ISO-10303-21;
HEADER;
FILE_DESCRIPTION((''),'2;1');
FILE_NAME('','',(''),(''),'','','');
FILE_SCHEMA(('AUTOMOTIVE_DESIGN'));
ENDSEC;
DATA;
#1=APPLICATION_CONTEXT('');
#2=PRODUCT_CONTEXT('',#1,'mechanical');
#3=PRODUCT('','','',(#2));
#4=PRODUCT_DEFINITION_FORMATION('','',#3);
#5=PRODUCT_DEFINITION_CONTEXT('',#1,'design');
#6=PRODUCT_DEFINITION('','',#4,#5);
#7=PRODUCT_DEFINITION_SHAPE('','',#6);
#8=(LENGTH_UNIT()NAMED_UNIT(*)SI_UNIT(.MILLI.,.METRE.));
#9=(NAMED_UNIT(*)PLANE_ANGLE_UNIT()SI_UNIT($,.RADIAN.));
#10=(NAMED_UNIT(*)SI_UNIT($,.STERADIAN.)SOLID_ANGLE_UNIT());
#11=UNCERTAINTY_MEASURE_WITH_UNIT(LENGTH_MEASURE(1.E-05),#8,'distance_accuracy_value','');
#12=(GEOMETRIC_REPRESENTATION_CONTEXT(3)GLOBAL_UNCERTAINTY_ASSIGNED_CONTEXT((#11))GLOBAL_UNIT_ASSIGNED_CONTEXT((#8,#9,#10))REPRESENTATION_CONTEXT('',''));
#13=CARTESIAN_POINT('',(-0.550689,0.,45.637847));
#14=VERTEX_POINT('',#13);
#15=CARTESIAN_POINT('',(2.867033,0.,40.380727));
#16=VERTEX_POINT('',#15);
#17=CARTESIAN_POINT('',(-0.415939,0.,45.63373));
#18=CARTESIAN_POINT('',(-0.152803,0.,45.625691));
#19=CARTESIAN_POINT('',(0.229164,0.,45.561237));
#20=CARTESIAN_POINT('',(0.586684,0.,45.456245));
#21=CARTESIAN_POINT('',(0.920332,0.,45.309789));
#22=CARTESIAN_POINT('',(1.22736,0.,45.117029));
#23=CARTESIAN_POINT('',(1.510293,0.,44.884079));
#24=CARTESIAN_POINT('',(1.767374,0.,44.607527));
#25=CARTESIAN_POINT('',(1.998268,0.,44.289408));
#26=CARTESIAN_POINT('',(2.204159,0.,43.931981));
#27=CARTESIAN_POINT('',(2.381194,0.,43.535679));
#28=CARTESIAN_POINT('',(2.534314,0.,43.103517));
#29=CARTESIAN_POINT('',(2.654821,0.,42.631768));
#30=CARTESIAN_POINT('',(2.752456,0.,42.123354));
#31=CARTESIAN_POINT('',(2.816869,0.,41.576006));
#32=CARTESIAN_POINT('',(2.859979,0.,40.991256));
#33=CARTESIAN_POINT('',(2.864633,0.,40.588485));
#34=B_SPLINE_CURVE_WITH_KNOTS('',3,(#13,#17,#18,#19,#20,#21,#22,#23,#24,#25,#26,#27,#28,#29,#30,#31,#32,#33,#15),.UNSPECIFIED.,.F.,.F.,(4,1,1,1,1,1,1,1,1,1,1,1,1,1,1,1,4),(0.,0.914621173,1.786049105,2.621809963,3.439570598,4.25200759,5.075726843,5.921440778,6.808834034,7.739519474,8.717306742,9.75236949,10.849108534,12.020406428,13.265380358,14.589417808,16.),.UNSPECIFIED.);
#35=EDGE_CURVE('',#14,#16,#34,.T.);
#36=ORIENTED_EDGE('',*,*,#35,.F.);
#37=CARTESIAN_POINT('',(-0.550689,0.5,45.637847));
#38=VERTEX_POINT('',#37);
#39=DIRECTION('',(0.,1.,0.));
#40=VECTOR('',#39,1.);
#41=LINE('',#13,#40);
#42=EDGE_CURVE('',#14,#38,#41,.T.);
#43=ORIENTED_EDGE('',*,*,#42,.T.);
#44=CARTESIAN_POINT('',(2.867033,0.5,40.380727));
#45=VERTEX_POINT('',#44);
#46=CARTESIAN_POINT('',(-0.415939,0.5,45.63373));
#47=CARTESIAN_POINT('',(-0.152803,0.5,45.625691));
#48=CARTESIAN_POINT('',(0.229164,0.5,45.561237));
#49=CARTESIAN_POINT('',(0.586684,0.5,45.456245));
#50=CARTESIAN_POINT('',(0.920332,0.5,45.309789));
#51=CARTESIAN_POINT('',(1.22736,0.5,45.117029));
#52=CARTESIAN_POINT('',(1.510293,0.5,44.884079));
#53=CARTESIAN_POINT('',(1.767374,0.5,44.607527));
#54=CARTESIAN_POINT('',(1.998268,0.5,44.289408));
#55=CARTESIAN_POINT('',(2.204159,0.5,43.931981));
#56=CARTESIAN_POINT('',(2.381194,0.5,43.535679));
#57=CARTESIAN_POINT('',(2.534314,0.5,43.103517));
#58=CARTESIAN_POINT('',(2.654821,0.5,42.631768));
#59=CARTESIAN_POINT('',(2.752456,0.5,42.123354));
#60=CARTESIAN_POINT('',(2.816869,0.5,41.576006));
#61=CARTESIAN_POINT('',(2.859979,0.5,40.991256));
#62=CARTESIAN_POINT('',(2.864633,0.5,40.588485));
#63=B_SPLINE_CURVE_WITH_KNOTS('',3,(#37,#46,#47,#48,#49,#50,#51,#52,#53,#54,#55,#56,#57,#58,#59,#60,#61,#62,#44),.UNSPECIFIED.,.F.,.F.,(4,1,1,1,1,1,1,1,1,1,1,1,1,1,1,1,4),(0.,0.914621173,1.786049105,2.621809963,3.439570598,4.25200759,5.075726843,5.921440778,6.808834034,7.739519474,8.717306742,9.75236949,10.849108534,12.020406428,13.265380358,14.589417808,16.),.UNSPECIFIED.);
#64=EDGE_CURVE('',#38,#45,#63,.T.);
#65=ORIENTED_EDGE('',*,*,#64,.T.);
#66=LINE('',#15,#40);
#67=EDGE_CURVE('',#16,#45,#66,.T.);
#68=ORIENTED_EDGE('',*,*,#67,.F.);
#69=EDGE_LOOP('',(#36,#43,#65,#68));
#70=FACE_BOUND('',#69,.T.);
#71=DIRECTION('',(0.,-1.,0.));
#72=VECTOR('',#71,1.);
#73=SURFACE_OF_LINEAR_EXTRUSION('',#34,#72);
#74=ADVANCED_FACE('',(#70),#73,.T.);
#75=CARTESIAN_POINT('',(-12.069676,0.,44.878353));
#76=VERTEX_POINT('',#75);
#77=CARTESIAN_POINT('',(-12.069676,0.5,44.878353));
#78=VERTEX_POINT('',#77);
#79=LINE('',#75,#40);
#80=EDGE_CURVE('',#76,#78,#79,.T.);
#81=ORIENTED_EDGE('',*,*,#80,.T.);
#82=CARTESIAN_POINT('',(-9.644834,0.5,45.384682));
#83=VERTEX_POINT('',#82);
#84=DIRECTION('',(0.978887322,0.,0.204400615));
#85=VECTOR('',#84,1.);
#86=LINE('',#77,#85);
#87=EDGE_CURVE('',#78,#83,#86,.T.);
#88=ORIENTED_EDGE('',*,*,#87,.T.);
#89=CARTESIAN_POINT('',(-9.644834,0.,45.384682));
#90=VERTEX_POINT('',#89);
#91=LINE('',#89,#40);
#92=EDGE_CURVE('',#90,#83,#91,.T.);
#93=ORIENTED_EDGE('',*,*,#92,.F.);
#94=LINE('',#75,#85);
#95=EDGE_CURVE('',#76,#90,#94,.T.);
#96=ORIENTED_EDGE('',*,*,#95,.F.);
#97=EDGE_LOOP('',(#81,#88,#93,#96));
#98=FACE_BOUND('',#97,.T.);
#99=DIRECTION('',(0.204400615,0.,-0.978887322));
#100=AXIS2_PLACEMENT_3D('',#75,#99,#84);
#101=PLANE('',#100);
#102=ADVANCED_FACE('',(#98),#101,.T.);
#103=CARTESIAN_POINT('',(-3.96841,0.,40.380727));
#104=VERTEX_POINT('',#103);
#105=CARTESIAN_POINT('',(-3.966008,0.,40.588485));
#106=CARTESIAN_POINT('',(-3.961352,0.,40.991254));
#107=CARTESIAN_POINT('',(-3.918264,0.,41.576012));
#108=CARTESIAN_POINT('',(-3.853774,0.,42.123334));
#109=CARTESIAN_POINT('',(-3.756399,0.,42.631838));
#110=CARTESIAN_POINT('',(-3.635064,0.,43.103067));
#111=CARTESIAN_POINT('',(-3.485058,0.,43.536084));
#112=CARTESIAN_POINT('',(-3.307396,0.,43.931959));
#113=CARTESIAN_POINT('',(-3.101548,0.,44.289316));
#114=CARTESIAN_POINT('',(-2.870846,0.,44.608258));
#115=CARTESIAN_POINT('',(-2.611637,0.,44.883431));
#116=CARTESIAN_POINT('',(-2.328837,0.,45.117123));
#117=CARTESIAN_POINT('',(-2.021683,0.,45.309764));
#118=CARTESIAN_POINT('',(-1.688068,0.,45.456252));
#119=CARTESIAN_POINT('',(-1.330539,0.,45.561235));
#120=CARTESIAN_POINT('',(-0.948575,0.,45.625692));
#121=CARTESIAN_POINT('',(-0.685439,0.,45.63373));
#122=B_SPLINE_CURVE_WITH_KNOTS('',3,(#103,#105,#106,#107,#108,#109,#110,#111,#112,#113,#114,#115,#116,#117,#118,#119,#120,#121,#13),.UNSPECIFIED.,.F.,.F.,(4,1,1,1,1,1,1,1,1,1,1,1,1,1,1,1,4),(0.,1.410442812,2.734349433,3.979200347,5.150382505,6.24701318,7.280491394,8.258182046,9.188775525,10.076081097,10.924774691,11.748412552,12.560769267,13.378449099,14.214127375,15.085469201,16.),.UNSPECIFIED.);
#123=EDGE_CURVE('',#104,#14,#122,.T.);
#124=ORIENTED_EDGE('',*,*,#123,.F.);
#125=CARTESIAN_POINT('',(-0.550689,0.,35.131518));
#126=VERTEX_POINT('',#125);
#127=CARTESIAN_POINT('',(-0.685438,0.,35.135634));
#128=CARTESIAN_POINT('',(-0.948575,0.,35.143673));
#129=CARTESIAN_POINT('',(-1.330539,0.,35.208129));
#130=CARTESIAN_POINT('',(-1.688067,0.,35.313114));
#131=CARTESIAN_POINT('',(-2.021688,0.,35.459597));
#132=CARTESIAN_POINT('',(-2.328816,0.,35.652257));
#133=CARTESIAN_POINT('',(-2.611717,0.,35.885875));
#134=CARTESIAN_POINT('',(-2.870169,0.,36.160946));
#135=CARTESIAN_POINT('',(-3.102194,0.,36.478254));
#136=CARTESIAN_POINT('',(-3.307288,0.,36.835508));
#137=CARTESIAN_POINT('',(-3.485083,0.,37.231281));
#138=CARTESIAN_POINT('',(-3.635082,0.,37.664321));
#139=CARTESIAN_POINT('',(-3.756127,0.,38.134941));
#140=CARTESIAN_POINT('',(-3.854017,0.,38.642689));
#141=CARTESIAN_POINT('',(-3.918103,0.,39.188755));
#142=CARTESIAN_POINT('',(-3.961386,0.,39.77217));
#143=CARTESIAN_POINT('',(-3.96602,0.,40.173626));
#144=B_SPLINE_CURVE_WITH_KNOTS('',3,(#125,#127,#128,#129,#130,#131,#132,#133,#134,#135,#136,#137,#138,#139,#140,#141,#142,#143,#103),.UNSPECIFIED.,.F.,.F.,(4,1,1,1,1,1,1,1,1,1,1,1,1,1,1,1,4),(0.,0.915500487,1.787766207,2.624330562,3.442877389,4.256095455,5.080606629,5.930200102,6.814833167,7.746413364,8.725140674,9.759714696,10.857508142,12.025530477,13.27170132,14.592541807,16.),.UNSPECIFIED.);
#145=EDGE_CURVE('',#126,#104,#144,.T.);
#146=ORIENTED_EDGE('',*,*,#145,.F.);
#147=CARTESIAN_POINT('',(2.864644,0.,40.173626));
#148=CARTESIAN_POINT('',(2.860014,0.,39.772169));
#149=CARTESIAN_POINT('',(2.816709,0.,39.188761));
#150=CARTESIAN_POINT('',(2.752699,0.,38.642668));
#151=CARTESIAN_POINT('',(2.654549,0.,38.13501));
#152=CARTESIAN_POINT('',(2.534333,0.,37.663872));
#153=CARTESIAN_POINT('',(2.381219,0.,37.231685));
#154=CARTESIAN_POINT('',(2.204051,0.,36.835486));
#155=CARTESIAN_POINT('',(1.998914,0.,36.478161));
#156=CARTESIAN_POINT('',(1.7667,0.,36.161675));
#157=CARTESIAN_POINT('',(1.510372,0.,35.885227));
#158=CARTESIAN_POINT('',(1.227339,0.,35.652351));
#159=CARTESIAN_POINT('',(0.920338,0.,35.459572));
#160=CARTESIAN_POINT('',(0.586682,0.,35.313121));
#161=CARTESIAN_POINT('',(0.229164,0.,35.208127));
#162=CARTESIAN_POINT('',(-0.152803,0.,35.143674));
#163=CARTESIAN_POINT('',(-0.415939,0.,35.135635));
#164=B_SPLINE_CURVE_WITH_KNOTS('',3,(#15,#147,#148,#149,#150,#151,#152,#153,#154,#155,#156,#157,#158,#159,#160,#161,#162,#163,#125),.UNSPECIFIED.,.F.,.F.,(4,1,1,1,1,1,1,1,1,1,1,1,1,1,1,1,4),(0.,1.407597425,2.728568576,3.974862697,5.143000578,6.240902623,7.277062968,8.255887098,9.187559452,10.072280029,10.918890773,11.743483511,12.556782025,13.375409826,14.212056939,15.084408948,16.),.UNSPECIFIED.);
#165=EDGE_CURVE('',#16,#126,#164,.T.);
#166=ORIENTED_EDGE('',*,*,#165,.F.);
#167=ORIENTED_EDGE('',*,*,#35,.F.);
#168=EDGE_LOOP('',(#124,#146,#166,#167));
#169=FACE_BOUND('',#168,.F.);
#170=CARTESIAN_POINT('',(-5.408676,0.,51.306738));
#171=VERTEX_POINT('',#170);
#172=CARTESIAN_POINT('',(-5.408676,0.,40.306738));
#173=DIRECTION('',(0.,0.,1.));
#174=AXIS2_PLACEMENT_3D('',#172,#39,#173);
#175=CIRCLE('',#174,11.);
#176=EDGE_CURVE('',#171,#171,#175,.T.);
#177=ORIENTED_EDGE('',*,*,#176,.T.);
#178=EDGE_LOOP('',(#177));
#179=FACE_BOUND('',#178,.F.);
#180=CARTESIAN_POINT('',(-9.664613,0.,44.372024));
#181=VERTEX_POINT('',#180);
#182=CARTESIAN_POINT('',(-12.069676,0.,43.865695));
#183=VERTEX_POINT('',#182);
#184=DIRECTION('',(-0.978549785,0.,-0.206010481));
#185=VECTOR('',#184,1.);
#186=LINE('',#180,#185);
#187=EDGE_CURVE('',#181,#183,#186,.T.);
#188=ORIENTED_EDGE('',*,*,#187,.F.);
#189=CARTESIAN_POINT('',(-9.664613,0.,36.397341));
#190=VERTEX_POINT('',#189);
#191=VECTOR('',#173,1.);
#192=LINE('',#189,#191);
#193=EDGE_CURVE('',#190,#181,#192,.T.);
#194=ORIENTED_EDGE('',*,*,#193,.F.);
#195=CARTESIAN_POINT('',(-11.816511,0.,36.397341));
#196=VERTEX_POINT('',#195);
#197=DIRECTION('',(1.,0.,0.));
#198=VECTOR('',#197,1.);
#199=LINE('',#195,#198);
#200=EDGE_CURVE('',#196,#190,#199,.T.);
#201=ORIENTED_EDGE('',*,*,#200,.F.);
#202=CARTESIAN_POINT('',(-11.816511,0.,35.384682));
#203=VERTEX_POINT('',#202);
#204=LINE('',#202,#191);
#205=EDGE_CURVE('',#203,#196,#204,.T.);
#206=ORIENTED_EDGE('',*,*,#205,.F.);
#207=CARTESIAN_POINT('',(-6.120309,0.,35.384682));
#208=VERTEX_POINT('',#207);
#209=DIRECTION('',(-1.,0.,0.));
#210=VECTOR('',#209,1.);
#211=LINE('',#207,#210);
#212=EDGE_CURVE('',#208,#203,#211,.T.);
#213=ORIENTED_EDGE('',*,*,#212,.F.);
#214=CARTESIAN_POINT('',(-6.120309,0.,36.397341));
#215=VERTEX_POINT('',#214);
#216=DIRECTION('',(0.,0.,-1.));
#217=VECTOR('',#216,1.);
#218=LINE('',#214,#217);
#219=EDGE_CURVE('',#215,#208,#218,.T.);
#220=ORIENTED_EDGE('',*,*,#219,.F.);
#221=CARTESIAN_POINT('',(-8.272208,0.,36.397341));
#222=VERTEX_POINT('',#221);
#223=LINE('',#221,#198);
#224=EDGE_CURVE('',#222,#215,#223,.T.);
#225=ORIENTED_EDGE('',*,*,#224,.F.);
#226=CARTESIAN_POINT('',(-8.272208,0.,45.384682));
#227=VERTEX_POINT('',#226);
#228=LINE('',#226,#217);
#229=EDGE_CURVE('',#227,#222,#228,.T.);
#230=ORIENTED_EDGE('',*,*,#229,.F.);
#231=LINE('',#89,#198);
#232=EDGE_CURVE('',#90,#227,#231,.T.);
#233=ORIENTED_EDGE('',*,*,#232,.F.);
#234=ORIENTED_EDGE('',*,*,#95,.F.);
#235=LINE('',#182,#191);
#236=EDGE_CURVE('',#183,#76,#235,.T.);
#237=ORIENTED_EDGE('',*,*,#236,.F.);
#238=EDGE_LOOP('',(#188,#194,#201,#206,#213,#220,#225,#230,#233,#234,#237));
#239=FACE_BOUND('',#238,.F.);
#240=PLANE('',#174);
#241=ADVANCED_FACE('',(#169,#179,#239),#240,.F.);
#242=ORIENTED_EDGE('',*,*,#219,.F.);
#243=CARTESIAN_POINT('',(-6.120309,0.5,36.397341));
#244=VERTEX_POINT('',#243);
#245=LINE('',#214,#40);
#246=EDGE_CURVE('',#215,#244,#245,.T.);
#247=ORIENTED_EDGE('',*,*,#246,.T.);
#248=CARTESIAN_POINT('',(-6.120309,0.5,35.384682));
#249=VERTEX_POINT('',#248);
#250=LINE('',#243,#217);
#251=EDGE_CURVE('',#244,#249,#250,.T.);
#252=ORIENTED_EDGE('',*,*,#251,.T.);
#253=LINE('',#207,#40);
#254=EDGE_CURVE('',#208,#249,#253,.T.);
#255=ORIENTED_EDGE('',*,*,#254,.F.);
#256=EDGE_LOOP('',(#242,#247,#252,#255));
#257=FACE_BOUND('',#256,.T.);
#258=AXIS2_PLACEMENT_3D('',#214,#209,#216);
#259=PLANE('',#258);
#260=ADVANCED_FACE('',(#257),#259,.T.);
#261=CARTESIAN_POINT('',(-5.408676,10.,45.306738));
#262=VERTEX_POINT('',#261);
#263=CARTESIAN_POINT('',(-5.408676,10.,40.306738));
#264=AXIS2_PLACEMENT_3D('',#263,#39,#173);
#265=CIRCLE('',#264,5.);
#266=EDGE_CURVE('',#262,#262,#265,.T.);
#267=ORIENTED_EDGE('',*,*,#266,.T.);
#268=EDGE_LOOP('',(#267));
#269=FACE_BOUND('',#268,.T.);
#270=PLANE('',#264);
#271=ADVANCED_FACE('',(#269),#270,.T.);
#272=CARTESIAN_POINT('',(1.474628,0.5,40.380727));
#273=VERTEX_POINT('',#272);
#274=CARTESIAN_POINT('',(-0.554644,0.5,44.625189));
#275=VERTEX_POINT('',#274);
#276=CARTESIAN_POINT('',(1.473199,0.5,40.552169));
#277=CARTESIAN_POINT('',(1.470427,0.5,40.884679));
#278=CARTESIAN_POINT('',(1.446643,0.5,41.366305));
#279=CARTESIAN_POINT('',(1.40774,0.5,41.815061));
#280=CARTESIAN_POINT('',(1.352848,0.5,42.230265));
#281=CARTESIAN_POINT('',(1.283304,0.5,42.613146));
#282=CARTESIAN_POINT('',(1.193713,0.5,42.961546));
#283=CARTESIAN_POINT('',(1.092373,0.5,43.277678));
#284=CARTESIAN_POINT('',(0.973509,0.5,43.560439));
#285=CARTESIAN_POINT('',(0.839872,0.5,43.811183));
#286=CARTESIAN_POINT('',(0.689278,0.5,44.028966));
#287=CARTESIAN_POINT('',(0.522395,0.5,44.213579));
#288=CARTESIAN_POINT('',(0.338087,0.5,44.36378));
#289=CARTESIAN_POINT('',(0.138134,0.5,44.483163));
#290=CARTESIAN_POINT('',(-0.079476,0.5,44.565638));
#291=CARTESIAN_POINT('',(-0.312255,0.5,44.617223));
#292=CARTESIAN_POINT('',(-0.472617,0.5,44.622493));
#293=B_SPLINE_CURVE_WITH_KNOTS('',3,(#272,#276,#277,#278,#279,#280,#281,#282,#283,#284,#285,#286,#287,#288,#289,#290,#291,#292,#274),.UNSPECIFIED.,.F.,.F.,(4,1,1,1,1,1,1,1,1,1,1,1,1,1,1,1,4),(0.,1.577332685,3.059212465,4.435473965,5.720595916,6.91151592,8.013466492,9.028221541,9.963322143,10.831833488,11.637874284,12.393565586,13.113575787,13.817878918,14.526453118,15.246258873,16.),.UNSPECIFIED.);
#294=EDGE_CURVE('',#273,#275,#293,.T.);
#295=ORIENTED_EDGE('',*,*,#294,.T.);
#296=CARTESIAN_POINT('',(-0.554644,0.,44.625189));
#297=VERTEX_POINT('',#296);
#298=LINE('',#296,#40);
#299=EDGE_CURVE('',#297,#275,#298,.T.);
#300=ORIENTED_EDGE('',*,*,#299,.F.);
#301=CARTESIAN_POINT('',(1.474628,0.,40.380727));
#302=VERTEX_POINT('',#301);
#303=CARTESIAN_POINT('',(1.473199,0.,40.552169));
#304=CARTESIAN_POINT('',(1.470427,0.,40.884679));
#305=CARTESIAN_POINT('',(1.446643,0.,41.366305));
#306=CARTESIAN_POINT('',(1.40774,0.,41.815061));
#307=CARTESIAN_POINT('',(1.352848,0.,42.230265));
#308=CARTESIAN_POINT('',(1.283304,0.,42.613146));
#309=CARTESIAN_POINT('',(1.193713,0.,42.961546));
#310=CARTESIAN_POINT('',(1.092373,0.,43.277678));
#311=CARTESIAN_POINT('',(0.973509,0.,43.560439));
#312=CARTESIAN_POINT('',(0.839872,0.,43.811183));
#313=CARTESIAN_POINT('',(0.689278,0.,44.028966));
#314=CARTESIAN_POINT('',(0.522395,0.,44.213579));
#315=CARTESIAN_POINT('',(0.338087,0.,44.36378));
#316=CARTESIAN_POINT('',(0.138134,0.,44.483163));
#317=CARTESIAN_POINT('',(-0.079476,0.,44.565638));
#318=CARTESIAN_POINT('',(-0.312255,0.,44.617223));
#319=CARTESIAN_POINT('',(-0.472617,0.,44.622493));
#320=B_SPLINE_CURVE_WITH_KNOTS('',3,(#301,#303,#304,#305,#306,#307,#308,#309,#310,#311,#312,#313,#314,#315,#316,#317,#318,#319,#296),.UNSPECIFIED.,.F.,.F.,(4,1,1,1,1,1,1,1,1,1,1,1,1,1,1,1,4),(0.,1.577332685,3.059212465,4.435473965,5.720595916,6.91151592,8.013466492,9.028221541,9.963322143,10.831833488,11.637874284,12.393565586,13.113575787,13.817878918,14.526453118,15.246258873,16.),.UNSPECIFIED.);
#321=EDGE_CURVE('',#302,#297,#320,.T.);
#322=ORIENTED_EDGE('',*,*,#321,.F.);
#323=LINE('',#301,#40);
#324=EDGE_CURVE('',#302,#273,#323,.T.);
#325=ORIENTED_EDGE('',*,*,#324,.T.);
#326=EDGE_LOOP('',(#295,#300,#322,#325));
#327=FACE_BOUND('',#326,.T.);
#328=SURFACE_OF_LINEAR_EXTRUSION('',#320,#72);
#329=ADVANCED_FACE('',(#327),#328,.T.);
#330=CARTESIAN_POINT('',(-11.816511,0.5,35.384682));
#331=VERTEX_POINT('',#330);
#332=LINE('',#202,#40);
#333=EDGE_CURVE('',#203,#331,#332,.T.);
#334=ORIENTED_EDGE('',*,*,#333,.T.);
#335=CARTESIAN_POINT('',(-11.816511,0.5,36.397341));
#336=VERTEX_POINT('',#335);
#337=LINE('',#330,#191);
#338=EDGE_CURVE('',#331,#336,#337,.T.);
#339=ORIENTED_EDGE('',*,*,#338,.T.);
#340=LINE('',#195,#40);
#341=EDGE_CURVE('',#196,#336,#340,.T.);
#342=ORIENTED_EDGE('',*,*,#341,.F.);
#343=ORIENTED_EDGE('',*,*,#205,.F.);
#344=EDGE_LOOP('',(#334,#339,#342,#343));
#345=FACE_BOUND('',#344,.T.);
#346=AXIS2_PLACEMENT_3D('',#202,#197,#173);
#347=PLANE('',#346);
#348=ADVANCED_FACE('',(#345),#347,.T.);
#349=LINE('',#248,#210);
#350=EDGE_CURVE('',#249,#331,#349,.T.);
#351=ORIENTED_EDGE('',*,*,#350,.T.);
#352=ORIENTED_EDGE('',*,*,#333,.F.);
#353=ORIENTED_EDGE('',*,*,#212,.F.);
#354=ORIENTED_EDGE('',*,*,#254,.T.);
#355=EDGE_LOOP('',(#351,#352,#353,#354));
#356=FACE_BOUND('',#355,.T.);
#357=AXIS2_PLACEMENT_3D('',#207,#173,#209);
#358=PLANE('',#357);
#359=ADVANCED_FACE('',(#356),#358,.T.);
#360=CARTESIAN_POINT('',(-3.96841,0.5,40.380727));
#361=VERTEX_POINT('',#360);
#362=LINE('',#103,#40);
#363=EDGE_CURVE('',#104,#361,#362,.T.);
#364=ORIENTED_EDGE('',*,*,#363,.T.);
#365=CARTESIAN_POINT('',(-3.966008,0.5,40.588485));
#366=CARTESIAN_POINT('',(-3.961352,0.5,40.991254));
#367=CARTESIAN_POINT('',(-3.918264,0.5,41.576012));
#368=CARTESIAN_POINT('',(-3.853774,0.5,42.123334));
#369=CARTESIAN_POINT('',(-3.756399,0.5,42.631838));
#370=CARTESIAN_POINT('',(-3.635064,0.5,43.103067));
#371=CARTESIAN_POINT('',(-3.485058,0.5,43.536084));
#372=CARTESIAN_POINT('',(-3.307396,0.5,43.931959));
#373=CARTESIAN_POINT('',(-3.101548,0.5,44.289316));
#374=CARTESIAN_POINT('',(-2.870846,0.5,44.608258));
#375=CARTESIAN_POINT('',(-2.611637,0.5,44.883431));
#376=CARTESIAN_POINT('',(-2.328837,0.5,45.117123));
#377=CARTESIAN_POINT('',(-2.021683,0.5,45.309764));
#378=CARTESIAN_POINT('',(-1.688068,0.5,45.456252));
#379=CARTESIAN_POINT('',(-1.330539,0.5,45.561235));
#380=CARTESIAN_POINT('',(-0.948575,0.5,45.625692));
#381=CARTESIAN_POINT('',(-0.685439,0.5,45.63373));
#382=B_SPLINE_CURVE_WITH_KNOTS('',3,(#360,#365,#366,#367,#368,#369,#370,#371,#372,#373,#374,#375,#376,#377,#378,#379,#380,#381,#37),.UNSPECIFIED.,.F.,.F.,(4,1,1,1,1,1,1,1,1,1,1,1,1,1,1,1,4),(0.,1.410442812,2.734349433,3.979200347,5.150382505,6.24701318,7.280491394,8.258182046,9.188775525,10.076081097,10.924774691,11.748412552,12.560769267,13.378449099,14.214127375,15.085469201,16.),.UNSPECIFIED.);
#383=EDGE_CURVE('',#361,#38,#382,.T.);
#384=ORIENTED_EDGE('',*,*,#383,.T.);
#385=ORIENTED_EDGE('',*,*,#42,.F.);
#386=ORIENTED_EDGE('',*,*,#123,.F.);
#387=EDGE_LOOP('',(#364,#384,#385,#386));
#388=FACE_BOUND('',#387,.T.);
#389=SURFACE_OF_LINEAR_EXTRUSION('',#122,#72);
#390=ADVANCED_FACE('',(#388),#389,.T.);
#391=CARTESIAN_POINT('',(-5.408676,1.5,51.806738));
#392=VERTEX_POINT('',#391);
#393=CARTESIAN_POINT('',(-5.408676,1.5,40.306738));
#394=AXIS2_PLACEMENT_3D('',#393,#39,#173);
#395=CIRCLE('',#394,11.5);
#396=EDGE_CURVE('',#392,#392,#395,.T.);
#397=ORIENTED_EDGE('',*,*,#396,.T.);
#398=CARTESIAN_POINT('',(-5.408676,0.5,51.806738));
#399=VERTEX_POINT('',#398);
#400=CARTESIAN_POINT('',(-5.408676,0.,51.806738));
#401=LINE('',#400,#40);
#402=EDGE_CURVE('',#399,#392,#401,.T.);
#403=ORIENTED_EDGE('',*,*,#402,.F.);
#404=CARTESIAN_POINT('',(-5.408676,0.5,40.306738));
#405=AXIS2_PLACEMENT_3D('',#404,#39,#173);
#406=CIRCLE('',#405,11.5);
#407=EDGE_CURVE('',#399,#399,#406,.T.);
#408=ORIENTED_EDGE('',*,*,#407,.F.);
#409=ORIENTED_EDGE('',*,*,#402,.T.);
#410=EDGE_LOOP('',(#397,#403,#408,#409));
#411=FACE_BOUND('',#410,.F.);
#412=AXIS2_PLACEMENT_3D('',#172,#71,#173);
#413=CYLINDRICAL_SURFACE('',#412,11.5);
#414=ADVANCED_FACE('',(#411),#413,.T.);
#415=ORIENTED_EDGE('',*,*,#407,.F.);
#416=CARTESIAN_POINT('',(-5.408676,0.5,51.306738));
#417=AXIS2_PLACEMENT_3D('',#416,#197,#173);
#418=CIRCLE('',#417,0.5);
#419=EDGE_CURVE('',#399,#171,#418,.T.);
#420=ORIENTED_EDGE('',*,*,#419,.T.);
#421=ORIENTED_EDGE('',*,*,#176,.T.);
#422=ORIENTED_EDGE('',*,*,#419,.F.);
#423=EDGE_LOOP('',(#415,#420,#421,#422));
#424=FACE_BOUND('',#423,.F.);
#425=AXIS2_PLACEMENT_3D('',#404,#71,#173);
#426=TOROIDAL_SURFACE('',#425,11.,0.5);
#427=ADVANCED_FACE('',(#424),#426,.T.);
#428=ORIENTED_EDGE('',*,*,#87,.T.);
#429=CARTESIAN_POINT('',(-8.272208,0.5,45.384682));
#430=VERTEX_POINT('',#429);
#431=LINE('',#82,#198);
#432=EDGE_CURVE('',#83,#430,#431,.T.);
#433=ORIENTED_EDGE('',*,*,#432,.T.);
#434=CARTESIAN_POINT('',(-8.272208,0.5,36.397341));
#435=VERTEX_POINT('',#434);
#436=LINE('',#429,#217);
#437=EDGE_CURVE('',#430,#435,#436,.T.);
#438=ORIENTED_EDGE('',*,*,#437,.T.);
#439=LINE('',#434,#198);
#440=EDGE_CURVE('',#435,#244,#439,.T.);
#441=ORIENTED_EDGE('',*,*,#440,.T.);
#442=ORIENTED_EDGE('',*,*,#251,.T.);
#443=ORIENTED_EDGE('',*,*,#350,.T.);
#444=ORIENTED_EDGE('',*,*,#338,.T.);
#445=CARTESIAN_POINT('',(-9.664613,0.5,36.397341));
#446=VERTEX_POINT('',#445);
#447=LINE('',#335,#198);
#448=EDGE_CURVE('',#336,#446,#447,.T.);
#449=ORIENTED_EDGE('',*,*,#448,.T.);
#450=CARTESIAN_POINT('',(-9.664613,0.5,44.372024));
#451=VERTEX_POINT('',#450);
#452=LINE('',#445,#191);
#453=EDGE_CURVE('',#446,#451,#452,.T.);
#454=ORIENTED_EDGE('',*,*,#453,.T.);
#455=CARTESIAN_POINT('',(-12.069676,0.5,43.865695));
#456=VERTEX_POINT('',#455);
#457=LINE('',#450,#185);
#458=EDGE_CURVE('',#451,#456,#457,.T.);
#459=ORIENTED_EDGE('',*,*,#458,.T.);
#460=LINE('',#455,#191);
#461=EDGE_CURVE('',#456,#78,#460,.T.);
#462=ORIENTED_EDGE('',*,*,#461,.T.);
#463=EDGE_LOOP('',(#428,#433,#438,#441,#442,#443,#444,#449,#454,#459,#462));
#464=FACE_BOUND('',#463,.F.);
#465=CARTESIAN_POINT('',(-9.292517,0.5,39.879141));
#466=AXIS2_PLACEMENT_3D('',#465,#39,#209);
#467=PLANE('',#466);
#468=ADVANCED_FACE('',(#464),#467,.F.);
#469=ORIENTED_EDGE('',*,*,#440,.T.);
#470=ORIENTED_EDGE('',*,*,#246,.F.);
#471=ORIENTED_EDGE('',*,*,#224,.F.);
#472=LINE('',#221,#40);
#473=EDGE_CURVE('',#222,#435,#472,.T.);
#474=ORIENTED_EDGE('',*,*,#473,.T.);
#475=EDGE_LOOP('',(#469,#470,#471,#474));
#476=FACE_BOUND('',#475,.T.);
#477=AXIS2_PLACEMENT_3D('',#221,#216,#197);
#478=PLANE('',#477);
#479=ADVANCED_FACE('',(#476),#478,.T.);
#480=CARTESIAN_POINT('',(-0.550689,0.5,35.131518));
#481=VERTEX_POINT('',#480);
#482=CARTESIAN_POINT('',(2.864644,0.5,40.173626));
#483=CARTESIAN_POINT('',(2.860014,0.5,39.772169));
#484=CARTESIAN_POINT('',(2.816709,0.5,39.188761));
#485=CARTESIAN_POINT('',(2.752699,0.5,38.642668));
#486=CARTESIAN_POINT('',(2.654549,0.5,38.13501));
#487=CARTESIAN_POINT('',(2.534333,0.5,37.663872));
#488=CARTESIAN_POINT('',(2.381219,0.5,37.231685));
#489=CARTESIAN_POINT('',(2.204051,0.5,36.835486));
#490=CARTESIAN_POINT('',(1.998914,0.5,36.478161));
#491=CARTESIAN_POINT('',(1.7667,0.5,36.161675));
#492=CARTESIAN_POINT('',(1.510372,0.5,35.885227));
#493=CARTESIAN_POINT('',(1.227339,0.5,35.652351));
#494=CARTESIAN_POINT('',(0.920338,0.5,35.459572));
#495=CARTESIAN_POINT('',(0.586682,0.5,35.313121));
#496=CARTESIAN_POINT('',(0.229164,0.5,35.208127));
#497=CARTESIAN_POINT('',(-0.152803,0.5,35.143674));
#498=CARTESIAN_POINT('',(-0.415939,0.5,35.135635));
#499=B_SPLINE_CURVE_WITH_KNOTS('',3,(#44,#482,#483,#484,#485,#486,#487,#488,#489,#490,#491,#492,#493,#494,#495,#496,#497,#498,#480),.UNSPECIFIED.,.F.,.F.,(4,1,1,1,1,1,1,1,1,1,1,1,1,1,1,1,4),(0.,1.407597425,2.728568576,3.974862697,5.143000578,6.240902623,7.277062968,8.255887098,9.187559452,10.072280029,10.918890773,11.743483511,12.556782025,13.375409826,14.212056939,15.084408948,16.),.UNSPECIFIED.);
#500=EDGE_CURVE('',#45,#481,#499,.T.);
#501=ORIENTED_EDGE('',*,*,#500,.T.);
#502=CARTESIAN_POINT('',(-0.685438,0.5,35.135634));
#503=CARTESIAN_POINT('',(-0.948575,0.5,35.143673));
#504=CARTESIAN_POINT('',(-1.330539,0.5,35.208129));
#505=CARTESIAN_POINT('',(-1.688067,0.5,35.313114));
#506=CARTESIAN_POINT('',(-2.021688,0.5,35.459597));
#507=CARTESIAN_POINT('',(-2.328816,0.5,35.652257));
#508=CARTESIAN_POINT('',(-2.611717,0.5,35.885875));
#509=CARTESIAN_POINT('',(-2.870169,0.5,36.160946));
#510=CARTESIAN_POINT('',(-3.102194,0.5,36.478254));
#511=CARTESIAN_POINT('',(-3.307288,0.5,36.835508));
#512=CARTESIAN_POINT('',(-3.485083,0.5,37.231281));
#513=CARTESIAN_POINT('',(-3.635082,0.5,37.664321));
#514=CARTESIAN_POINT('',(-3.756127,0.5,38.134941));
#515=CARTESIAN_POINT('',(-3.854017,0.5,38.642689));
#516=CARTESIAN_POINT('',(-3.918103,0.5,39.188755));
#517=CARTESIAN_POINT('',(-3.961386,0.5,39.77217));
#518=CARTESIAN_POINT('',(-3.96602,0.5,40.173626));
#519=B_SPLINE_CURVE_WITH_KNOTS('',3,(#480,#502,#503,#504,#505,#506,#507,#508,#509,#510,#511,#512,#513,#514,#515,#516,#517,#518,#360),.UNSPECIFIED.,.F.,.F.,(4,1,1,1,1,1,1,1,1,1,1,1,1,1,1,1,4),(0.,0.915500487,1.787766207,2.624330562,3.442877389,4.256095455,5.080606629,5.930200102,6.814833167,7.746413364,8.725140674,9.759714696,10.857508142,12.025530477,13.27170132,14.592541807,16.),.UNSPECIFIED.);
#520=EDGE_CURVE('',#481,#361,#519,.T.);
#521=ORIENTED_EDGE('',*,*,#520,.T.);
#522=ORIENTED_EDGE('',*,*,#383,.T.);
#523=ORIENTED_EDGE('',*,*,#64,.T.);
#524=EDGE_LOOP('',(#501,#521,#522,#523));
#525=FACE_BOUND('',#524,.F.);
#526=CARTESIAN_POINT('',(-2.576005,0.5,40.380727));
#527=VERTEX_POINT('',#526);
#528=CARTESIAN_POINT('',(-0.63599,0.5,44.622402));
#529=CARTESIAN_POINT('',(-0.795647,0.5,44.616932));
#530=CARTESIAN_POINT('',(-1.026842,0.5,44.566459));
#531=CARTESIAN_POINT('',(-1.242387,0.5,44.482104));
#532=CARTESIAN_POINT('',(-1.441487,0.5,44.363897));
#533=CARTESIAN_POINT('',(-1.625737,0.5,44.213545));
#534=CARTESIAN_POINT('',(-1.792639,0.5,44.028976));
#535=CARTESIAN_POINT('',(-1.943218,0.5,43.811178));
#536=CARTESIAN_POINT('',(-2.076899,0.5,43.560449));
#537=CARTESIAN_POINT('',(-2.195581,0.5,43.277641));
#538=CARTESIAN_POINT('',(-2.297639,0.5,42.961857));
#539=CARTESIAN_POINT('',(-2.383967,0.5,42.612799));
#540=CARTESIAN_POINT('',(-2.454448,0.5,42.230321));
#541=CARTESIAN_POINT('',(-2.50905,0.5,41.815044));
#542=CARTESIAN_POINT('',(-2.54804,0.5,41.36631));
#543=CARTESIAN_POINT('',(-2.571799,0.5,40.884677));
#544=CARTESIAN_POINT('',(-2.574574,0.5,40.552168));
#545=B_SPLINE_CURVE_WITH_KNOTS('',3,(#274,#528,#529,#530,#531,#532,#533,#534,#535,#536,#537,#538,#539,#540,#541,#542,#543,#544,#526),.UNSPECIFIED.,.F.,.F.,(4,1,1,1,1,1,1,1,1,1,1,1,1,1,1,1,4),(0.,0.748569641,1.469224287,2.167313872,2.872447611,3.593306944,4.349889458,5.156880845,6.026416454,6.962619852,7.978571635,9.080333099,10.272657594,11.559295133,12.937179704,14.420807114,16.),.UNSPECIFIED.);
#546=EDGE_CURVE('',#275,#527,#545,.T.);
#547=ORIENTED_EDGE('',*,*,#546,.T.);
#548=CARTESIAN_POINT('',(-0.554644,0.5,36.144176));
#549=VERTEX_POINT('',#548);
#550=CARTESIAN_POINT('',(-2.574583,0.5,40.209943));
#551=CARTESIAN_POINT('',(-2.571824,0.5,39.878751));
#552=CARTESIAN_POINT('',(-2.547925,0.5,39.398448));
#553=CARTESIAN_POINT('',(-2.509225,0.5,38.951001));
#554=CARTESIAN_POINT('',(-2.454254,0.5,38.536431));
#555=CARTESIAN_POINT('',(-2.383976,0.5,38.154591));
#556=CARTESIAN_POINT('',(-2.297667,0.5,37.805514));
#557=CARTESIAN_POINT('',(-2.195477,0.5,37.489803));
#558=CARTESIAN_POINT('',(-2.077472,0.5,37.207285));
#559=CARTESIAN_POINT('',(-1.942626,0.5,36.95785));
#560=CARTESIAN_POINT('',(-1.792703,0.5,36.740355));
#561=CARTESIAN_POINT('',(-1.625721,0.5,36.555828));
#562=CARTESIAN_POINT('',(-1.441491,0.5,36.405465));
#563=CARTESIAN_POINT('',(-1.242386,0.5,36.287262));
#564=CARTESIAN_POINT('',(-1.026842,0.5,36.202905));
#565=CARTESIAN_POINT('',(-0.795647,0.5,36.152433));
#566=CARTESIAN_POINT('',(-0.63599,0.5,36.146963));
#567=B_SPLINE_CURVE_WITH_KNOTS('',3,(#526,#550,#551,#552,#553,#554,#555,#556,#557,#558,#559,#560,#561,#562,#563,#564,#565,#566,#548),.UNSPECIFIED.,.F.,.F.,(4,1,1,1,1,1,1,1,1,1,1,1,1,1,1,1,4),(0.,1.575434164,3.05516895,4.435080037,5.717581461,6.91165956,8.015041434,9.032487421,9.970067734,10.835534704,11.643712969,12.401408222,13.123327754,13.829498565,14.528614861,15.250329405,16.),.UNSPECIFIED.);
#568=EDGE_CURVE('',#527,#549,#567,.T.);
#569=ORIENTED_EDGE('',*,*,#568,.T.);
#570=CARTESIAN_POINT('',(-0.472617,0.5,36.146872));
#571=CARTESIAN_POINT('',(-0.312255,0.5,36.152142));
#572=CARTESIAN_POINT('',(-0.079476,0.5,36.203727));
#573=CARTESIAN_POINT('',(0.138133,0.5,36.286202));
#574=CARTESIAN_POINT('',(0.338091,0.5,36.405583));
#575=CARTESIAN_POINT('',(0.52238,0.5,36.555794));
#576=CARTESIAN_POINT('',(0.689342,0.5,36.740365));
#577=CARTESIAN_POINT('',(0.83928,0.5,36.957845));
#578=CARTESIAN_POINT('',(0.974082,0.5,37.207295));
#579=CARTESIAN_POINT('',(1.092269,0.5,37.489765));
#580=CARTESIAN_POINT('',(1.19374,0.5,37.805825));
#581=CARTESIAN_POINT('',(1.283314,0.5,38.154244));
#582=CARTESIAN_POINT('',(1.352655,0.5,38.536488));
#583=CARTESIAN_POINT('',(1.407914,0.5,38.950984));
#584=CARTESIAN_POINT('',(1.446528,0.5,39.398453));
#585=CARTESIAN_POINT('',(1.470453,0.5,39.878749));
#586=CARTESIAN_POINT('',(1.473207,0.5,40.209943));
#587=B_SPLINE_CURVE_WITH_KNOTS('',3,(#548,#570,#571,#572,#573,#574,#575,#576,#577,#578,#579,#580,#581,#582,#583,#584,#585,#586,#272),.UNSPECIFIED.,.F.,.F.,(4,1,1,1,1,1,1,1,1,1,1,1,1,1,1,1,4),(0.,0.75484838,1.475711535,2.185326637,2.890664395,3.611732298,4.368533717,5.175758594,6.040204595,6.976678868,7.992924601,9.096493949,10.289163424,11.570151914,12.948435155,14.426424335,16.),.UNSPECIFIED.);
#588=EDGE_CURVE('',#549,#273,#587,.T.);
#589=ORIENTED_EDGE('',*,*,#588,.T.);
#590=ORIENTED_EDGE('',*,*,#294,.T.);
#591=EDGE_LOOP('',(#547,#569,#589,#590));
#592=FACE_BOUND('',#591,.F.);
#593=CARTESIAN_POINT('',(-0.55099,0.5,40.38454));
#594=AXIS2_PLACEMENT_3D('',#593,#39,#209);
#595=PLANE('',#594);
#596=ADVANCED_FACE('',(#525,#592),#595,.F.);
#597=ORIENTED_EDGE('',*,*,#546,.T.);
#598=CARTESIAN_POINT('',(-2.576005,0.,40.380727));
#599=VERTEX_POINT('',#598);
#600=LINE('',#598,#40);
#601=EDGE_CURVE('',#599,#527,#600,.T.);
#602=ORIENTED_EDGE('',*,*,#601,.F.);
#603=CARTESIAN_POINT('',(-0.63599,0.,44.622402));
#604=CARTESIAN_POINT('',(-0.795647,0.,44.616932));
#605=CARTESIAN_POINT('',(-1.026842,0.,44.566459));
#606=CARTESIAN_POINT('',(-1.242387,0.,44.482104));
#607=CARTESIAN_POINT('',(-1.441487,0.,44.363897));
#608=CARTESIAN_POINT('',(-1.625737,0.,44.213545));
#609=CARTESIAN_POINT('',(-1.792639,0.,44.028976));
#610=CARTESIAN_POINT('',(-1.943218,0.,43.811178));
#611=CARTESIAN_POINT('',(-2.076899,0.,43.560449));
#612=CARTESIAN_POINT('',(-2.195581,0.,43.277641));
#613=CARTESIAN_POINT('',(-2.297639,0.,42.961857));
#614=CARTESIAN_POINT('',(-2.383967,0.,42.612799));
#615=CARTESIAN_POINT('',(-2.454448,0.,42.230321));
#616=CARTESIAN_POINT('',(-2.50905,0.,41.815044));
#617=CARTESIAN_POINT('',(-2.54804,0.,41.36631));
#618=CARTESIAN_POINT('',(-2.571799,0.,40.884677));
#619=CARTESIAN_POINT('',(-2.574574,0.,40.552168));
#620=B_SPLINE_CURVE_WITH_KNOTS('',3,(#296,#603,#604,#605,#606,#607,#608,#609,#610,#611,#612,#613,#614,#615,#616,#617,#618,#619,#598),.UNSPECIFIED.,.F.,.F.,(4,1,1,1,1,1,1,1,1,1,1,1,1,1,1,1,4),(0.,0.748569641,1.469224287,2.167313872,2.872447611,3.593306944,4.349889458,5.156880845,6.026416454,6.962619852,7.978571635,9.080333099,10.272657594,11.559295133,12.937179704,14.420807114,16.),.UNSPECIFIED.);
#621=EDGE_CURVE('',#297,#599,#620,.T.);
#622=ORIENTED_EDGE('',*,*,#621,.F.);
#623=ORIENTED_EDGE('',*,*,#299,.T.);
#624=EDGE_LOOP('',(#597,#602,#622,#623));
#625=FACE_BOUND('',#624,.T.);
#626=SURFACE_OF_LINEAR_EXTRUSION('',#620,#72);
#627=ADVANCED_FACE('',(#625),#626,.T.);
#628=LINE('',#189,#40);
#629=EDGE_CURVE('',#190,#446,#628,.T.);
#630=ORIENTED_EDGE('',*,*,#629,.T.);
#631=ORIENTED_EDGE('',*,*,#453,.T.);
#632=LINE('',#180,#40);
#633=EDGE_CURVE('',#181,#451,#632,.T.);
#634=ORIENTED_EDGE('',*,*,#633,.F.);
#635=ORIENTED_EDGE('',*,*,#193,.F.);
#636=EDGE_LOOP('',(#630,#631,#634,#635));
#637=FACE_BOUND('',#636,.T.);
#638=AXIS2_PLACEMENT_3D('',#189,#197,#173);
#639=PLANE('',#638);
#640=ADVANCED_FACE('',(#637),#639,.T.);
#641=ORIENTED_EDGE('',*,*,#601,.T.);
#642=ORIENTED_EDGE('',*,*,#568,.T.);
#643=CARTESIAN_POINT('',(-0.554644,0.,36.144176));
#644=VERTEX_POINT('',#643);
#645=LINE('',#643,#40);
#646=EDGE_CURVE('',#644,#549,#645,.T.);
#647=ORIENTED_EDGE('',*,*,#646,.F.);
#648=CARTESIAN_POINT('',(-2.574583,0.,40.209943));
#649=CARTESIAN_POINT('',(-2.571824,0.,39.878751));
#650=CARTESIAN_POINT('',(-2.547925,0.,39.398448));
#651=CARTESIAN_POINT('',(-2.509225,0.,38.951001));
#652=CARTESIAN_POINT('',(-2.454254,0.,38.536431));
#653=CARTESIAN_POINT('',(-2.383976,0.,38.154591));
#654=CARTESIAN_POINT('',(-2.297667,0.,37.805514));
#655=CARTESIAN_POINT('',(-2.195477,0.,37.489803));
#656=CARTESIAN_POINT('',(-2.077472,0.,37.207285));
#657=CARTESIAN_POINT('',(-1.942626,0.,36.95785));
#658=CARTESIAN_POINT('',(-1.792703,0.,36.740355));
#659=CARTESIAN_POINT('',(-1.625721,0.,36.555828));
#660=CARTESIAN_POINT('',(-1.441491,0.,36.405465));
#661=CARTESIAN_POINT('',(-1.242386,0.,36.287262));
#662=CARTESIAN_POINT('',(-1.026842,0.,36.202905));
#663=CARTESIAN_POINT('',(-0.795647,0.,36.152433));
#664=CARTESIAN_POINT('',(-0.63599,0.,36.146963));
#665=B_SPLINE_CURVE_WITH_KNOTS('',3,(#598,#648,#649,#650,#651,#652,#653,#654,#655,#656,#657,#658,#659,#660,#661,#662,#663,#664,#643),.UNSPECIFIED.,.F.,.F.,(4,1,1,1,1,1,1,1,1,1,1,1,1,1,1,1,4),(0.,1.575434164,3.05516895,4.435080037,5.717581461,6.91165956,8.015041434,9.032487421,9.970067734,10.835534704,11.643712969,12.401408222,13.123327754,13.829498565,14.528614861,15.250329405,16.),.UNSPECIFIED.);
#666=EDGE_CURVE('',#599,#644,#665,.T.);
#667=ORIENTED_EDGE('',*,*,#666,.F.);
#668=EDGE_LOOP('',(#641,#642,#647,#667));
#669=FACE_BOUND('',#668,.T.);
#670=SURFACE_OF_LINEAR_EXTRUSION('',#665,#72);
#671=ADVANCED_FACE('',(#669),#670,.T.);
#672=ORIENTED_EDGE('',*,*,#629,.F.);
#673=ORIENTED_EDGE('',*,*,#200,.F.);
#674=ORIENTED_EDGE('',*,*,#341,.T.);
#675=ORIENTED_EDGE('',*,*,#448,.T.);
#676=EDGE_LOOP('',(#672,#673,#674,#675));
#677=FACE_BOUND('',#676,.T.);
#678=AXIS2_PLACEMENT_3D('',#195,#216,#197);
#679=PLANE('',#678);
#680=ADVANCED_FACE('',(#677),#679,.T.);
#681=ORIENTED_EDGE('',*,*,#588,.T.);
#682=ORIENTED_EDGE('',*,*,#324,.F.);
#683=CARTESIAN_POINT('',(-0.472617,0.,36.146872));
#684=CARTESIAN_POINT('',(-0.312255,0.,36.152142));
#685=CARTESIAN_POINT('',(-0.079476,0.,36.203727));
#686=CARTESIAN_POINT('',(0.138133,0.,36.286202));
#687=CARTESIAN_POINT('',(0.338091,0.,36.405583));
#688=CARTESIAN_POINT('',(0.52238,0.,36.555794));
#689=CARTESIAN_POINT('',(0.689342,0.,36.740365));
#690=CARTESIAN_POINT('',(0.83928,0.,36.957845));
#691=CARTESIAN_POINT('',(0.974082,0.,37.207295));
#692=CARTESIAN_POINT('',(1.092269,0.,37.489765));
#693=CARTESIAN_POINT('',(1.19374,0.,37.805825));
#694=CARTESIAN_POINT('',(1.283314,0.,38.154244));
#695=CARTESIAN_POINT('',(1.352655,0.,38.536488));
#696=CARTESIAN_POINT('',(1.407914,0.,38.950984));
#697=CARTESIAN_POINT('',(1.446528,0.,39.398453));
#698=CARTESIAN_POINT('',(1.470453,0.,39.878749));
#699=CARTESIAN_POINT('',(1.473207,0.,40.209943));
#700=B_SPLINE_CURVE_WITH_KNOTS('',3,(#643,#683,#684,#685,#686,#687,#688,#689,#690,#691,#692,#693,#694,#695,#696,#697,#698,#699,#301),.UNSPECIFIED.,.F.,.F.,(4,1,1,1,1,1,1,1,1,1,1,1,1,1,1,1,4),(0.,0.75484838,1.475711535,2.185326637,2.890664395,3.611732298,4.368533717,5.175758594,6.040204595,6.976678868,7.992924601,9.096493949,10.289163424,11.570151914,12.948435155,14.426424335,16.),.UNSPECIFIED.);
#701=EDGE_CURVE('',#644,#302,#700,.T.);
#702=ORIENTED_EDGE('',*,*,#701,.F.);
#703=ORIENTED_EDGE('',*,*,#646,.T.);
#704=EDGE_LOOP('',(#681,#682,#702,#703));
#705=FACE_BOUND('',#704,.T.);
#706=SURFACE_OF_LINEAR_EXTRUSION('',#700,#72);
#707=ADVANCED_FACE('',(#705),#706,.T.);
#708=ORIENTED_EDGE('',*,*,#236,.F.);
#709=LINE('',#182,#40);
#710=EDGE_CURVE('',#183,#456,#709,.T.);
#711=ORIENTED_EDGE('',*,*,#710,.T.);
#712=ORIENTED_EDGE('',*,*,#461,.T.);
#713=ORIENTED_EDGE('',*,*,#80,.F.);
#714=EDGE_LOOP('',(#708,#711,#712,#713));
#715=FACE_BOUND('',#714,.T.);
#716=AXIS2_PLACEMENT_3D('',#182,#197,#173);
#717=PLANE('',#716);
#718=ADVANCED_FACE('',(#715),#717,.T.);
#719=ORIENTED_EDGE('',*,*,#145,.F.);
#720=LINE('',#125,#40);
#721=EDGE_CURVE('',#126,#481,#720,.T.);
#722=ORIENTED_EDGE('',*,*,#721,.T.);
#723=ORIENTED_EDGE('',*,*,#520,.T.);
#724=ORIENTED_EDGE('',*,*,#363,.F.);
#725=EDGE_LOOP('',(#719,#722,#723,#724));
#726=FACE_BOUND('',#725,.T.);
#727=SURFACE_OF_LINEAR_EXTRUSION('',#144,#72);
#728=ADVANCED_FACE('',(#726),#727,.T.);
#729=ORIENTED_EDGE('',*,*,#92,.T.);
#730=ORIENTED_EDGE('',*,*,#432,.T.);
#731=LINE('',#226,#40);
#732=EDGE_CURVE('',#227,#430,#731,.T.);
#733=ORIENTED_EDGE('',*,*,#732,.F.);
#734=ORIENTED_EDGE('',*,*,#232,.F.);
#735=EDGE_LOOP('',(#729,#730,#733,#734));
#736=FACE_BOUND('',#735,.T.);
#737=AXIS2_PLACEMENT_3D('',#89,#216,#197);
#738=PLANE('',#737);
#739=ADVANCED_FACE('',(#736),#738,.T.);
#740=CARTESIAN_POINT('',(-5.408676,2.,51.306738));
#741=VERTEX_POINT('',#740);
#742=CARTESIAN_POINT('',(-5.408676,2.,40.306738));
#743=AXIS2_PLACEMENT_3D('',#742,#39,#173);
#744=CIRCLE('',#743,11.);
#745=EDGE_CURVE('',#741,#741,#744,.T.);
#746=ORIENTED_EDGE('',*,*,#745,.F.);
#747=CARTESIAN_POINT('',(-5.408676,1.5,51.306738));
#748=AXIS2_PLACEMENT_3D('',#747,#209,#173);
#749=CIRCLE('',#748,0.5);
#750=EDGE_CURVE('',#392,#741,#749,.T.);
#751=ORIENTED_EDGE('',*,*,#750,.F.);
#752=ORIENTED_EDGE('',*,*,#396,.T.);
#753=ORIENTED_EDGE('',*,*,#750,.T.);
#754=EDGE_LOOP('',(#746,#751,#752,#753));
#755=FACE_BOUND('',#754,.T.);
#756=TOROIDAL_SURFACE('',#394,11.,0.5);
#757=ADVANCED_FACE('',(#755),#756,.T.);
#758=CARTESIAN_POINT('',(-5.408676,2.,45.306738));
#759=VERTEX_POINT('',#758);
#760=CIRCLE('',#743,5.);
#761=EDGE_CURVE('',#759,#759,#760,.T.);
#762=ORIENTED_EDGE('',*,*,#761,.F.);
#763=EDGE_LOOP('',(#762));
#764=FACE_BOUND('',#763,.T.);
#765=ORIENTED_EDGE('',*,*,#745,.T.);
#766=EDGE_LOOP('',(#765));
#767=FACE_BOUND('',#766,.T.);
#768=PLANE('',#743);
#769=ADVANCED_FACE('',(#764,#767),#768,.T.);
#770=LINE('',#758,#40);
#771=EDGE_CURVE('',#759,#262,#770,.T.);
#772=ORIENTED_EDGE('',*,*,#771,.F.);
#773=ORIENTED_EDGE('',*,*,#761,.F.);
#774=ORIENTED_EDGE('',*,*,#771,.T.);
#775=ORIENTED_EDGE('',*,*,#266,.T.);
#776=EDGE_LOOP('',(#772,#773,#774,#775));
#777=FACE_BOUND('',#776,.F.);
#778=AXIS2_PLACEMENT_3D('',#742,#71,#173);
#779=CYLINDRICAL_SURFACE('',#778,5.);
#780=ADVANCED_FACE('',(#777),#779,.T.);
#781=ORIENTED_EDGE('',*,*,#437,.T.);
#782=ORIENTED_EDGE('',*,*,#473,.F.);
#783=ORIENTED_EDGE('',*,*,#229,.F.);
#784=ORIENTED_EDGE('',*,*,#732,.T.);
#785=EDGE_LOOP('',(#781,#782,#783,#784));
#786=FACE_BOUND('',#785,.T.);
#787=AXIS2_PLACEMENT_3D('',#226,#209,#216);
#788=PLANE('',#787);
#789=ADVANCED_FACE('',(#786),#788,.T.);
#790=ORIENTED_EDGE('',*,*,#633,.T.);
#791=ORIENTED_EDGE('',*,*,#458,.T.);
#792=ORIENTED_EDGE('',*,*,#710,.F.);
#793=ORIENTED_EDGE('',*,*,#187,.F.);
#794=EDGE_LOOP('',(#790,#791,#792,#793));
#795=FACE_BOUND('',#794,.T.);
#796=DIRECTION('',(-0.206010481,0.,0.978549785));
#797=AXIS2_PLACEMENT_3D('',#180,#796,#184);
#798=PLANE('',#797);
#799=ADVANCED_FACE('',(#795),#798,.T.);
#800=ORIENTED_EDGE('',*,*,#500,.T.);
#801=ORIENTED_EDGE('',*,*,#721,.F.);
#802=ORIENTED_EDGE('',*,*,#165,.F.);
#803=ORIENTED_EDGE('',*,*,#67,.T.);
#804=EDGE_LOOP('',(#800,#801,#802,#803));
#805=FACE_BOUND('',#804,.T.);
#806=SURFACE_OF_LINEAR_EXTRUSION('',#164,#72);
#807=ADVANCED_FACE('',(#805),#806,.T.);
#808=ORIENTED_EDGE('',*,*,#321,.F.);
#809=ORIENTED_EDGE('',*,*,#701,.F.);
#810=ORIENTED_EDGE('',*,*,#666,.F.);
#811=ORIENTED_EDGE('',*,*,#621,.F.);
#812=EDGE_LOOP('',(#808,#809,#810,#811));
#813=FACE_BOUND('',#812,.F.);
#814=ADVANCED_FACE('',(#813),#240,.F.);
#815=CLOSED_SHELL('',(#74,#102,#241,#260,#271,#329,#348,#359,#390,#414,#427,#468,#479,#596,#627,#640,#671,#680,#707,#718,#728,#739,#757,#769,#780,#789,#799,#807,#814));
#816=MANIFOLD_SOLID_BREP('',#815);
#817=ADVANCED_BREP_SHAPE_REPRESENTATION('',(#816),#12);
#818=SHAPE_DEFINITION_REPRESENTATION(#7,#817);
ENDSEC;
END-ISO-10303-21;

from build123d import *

# Parameters (mm, degrees)
SKETCH1_R           = 11.5
BOSS_EXTRUDE5_DEPTH = 2
SKETCH4_R           = 5
BOSS_EXTRUDE6_DEPTH = 8
CUT_EXTRUDE2_DEPTH  = 0.5
FILLET1_R           = 0.5


with BuildPart() as part:
    # Sketch1 → Boss-Extrude5 (new body)
    with BuildSketch(Plane(origin=(0, 0, 0), x_dir=(1, 0, 0), z_dir=(0, 1, 0))):
        with Locations(Location((-5.408676197, -40.3067379, 0), (0, 0, 270))):
            Circle(SKETCH1_R)
    extrude(amount=BOSS_EXTRUDE5_DEPTH)

    # Sketch4 → Boss-Extrude6 (add)
    with BuildSketch(Plane(origin=(0, 2, 0), x_dir=(1, 0, 0), z_dir=(0, 1, 0))):
        with Locations(Location((-5.408676197, -40.3067379, 0), (0, 0, 270))):
            Circle(SKETCH4_R)
    extrude(amount=BOSS_EXTRUDE6_DEPTH)

    # Sketch5 → Cut-Extrude2 (cut)
    # profile 1 of 2: a face of its own
    with BuildSketch(Plane.XZ):
        Polygon((-11.816511362, 36.397340578), (-9.664612628, 36.397340578), (-9.664612628, 44.372024123), (-12.069675919, 43.865695009), (-12.069675919, 44.878353237), (-9.644834147, 45.38468235), (-8.272207565, 45.38468235), (-8.272207565, 36.397340578), (-6.120308831, 36.397340578), (-6.120308831, 35.38468235), (-11.816511362, 35.38468235), align=None)
    # profile 2 of 2: a face of its own
    with BuildSketch(Plane.XZ):
        with BuildLine():
            add(Edge.make_bspline(
                [(-0.550688578, 45.637846907), (-0.415938804, 45.633730166), (-0.152802852, 45.625691098), (0.229163714, 45.561237383), (0.586683797, 45.456245103), (0.920332152, 45.309789042), (1.227359965, 45.117028679), (1.510292763, 44.884079449), (1.767374377, 44.607527173), (1.998267531, 44.289408333), (2.204159406, 43.931981409), (2.381194089, 43.535679405), (2.534314002, 43.103516508), (2.654820834, 42.631767759), (2.752456274, 42.123354369), (2.816869131, 41.576005545), (2.859979178, 40.99125567), (2.864632597, 40.588485261), (2.867032941, 40.380726654)],
                knots=[0, 0, 0, 0, 0.914621173, 1.786049105, 2.621809963, 3.439570598, 4.25200759, 5.075726843, 5.921440778, 6.808834034, 7.739519474, 8.717306742, 9.75236949, 10.849108534, 12.020406428, 13.265380358, 14.589417808, 16, 16, 16, 16], degree=3))
            add(Edge.make_bspline(
                [(2.867032941, 40.380726654), (2.864644222, 40.173625568), (2.86001379, 39.772168798), (2.816709133, 39.188761145), (2.752698639, 38.642668217), (2.654549419, 38.135010363), (2.534332528, 37.663871958), (2.381219253, 37.231685314), (2.204051011, 36.835485659), (1.998914362, 36.478161083), (1.766700275, 36.161674678), (1.510372243, 35.885227112), (1.227339233, 35.652351187), (0.92033771, 35.459571593), (0.58668227, 35.313120715), (0.229164144, 35.208127003), (-0.152802968, 35.143673687), (-0.415938843, 35.135634563), (-0.550688578, 35.131517794)],
                knots=[0, 0, 0, 0, 1.407597425, 2.728568576, 3.974862697, 5.143000578, 6.240902623, 7.277062968, 8.255887098, 9.187559452, 10.072280029, 10.918890773, 11.743483511, 12.556782025, 13.375409826, 14.212056939, 15.084408948, 16, 16, 16, 16], degree=3))
            add(Edge.make_bspline(
                [(-0.550688578, 35.131517794), (-0.6854385, 35.135634386), (-0.948574743, 35.143673163), (-1.330539237, 35.208128951), (-1.688066752, 35.313113795), (-2.021688201, 35.459596777), (-2.328815845, 35.652257252), (-2.611716883, 35.885875244), (-2.870168983, 36.160946148), (-3.102194243, 36.478253797), (-3.307287706, 36.835508053), (-3.48508341, 37.231281228), (-3.635082086, 37.66432144), (-3.756126667, 38.134940569), (-3.854016818, 38.642688789), (-3.91810349, 39.188755145), (-3.961386204, 39.772170452), (-3.966019764, 40.173626131), (-3.968410097, 40.380726654)],
                knots=[0, 0, 0, 0, 0.915500487, 1.787766207, 2.624330562, 3.442877389, 4.256095455, 5.080606629, 5.930200102, 6.814833167, 7.746413364, 8.725140674, 9.759714696, 10.857508142, 12.025530477, 13.27170132, 14.592541807, 16, 16, 16, 16], degree=3))
            add(Edge.make_bspline(
                [(-3.968410097, 40.380726654), (-3.966008131, 40.588484695), (-3.961351569, 40.991254008), (-3.918263552, 41.576011567), (-3.853774368, 42.123333768), (-3.756398925, 42.631837847), (-3.63506368, 43.103067057), (-3.485058278, 43.536083527), (-3.307396088, 43.931958995), (-3.101547546, 44.289315613), (-2.870846186, 44.608258357), (-2.611637461, 44.883431398), (-2.32883653, 45.117122569), (-2.021682655, 45.30976387), (-1.688068275, 45.45625202), (-1.330538808, 45.561235436), (-0.948574858, 45.625691622), (-0.685438539, 45.633730344), (-0.550688578, 45.637846907)],
                knots=[0, 0, 0, 0, 1.410442812, 2.734349433, 3.979200347, 5.150382505, 6.24701318, 7.280491394, 8.258182046, 9.188775525, 10.076081097, 10.924774691, 11.748412552, 12.560769267, 13.378449099, 14.214127375, 15.085469201, 16, 16, 16, 16], degree=3))
        make_face()
        with BuildLine():
            add(Edge.make_bspline(
                [(-0.554644274, 44.62518868), (-0.635989574, 44.622401752), (-0.795646719, 44.616931825), (-1.026841529, 44.566459489), (-1.242386869, 44.482103579), (-1.441486777, 44.363897306), (-1.625737076, 44.213545447), (-1.792639211, 44.028975958), (-1.943217724, 43.811177792), (-2.076899469, 43.560448999), (-2.195580983, 43.277641024), (-2.297639092, 42.961856636), (-2.383967094, 42.612798562), (-2.454448483, 42.230321244), (-2.509050303, 41.815044266), (-2.548039786, 41.366310053), (-2.571798824, 40.8846772), (-2.574574099, 40.552168459), (-2.576005033, 40.380726654)],
                knots=[0, 0, 0, 0, 0.748569641, 1.469224287, 2.167313872, 2.872447611, 3.593306944, 4.349889458, 5.156880845, 6.026416454, 6.962619852, 7.978571635, 9.080333099, 10.272657594, 11.559295133, 12.937179704, 14.420807114, 16, 16, 16, 16], degree=3))
            add(Edge.make_bspline(
                [(-2.576005033, 40.380726654), (-2.574582635, 40.209943239), (-2.571824242, 39.878750606), (-2.547925246, 39.398448218), (-2.509225008, 38.951001137), (-2.45425411, 38.536431355), (-2.383976272, 38.154591028), (-2.297666503, 37.805513593), (-2.195476658, 37.489802584), (-2.077472273, 37.20728493), (-1.942625912, 36.957849971), (-1.792702591, 36.740354541), (-1.625721415, 36.555827706), (-1.441490789, 36.40546523), (-1.242385817, 36.287261689), (-1.026841818, 36.202905056), (-0.795646642, 36.152432918), (-0.635989549, 36.146962963), (-0.554644274, 36.144176021)],
                knots=[0, 0, 0, 0, 1.575434164, 3.05516895, 4.435080037, 5.717581461, 6.91165956, 8.015041434, 9.032487421, 9.970067734, 10.835534704, 11.643712969, 12.401408222, 13.123327754, 13.829498565, 14.528614861, 15.250329405, 16, 16, 16, 16], degree=3))
            add(Edge.make_bspline(
                [(-0.554644274, 36.144176021), (-0.472616683, 36.146871841), (-0.312254594, 36.152142109), (-0.0794757, 36.203726771), (0.138133244, 36.286201975), (0.338090945, 36.405582767), (0.522379645, 36.55579412), (0.689341824, 36.740364859), (0.839280394, 36.957844948), (0.974082065, 37.207294623), (1.092268814, 37.489765126), (1.193740002, 37.805824707), (1.283313605, 38.15424386), (1.352654751, 38.536487567), (1.407914192, 38.950984355), (1.446528422, 39.398453194), (1.470452529, 39.878749229), (1.473207332, 40.20994277), (1.474627878, 40.380726654)],
                knots=[0, 0, 0, 0, 0.75484838, 1.475711535, 2.185326637, 2.890664395, 3.611732298, 4.368533717, 5.175758594, 6.040204595, 6.976678868, 7.992924601, 9.096493949, 10.289163424, 11.570151914, 12.948435155, 14.426424335, 16, 16, 16, 16], degree=3))
            add(Edge.make_bspline(
                [(1.474627878, 40.380726654), (1.473198806, 40.55216893), (1.470427142, 40.884678585), (1.446642874, 41.366305056), (1.407739604, 41.815061077), (1.352847963, 42.230264739), (1.28330429, 42.6131457), (1.193712582, 42.961545506), (1.092373097, 43.277678471), (0.973509023, 43.560439245), (0.839872237, 43.811182841), (0.689278446, 44.028965642), (0.522395306, 44.213579032), (0.338086936, 44.363779771), (0.138134314, 44.483163303), (-0.079475991, 44.565637773), (-0.312254517, 44.617222634), (-0.472616657, 44.622492874), (-0.554644274, 44.62518868)],
                knots=[0, 0, 0, 0, 1.577332685, 3.059212465, 4.435473965, 5.720595916, 6.91151592, 8.013466492, 9.028221541, 9.963322143, 10.831833488, 11.637874284, 12.393565586, 13.113575787, 13.817878918, 14.526453118, 15.246258873, 16, 16, 16, 16], degree=3))
        make_face(mode=Mode.SUBTRACT)
    extrude(amount=-CUT_EXTRUDE2_DEPTH, mode=Mode.SUBTRACT)

    # Fillet1
    fillet1_edges = [part.edges().sort_by_distance(p)[0] for p in [
        (-5.408676197, 0, 28.8067379),
        (-5.408676197, 2, 28.8067379),
    ]]
    fillet(fillet1_edges, radius=FILLET1_R)


solid = part.part
